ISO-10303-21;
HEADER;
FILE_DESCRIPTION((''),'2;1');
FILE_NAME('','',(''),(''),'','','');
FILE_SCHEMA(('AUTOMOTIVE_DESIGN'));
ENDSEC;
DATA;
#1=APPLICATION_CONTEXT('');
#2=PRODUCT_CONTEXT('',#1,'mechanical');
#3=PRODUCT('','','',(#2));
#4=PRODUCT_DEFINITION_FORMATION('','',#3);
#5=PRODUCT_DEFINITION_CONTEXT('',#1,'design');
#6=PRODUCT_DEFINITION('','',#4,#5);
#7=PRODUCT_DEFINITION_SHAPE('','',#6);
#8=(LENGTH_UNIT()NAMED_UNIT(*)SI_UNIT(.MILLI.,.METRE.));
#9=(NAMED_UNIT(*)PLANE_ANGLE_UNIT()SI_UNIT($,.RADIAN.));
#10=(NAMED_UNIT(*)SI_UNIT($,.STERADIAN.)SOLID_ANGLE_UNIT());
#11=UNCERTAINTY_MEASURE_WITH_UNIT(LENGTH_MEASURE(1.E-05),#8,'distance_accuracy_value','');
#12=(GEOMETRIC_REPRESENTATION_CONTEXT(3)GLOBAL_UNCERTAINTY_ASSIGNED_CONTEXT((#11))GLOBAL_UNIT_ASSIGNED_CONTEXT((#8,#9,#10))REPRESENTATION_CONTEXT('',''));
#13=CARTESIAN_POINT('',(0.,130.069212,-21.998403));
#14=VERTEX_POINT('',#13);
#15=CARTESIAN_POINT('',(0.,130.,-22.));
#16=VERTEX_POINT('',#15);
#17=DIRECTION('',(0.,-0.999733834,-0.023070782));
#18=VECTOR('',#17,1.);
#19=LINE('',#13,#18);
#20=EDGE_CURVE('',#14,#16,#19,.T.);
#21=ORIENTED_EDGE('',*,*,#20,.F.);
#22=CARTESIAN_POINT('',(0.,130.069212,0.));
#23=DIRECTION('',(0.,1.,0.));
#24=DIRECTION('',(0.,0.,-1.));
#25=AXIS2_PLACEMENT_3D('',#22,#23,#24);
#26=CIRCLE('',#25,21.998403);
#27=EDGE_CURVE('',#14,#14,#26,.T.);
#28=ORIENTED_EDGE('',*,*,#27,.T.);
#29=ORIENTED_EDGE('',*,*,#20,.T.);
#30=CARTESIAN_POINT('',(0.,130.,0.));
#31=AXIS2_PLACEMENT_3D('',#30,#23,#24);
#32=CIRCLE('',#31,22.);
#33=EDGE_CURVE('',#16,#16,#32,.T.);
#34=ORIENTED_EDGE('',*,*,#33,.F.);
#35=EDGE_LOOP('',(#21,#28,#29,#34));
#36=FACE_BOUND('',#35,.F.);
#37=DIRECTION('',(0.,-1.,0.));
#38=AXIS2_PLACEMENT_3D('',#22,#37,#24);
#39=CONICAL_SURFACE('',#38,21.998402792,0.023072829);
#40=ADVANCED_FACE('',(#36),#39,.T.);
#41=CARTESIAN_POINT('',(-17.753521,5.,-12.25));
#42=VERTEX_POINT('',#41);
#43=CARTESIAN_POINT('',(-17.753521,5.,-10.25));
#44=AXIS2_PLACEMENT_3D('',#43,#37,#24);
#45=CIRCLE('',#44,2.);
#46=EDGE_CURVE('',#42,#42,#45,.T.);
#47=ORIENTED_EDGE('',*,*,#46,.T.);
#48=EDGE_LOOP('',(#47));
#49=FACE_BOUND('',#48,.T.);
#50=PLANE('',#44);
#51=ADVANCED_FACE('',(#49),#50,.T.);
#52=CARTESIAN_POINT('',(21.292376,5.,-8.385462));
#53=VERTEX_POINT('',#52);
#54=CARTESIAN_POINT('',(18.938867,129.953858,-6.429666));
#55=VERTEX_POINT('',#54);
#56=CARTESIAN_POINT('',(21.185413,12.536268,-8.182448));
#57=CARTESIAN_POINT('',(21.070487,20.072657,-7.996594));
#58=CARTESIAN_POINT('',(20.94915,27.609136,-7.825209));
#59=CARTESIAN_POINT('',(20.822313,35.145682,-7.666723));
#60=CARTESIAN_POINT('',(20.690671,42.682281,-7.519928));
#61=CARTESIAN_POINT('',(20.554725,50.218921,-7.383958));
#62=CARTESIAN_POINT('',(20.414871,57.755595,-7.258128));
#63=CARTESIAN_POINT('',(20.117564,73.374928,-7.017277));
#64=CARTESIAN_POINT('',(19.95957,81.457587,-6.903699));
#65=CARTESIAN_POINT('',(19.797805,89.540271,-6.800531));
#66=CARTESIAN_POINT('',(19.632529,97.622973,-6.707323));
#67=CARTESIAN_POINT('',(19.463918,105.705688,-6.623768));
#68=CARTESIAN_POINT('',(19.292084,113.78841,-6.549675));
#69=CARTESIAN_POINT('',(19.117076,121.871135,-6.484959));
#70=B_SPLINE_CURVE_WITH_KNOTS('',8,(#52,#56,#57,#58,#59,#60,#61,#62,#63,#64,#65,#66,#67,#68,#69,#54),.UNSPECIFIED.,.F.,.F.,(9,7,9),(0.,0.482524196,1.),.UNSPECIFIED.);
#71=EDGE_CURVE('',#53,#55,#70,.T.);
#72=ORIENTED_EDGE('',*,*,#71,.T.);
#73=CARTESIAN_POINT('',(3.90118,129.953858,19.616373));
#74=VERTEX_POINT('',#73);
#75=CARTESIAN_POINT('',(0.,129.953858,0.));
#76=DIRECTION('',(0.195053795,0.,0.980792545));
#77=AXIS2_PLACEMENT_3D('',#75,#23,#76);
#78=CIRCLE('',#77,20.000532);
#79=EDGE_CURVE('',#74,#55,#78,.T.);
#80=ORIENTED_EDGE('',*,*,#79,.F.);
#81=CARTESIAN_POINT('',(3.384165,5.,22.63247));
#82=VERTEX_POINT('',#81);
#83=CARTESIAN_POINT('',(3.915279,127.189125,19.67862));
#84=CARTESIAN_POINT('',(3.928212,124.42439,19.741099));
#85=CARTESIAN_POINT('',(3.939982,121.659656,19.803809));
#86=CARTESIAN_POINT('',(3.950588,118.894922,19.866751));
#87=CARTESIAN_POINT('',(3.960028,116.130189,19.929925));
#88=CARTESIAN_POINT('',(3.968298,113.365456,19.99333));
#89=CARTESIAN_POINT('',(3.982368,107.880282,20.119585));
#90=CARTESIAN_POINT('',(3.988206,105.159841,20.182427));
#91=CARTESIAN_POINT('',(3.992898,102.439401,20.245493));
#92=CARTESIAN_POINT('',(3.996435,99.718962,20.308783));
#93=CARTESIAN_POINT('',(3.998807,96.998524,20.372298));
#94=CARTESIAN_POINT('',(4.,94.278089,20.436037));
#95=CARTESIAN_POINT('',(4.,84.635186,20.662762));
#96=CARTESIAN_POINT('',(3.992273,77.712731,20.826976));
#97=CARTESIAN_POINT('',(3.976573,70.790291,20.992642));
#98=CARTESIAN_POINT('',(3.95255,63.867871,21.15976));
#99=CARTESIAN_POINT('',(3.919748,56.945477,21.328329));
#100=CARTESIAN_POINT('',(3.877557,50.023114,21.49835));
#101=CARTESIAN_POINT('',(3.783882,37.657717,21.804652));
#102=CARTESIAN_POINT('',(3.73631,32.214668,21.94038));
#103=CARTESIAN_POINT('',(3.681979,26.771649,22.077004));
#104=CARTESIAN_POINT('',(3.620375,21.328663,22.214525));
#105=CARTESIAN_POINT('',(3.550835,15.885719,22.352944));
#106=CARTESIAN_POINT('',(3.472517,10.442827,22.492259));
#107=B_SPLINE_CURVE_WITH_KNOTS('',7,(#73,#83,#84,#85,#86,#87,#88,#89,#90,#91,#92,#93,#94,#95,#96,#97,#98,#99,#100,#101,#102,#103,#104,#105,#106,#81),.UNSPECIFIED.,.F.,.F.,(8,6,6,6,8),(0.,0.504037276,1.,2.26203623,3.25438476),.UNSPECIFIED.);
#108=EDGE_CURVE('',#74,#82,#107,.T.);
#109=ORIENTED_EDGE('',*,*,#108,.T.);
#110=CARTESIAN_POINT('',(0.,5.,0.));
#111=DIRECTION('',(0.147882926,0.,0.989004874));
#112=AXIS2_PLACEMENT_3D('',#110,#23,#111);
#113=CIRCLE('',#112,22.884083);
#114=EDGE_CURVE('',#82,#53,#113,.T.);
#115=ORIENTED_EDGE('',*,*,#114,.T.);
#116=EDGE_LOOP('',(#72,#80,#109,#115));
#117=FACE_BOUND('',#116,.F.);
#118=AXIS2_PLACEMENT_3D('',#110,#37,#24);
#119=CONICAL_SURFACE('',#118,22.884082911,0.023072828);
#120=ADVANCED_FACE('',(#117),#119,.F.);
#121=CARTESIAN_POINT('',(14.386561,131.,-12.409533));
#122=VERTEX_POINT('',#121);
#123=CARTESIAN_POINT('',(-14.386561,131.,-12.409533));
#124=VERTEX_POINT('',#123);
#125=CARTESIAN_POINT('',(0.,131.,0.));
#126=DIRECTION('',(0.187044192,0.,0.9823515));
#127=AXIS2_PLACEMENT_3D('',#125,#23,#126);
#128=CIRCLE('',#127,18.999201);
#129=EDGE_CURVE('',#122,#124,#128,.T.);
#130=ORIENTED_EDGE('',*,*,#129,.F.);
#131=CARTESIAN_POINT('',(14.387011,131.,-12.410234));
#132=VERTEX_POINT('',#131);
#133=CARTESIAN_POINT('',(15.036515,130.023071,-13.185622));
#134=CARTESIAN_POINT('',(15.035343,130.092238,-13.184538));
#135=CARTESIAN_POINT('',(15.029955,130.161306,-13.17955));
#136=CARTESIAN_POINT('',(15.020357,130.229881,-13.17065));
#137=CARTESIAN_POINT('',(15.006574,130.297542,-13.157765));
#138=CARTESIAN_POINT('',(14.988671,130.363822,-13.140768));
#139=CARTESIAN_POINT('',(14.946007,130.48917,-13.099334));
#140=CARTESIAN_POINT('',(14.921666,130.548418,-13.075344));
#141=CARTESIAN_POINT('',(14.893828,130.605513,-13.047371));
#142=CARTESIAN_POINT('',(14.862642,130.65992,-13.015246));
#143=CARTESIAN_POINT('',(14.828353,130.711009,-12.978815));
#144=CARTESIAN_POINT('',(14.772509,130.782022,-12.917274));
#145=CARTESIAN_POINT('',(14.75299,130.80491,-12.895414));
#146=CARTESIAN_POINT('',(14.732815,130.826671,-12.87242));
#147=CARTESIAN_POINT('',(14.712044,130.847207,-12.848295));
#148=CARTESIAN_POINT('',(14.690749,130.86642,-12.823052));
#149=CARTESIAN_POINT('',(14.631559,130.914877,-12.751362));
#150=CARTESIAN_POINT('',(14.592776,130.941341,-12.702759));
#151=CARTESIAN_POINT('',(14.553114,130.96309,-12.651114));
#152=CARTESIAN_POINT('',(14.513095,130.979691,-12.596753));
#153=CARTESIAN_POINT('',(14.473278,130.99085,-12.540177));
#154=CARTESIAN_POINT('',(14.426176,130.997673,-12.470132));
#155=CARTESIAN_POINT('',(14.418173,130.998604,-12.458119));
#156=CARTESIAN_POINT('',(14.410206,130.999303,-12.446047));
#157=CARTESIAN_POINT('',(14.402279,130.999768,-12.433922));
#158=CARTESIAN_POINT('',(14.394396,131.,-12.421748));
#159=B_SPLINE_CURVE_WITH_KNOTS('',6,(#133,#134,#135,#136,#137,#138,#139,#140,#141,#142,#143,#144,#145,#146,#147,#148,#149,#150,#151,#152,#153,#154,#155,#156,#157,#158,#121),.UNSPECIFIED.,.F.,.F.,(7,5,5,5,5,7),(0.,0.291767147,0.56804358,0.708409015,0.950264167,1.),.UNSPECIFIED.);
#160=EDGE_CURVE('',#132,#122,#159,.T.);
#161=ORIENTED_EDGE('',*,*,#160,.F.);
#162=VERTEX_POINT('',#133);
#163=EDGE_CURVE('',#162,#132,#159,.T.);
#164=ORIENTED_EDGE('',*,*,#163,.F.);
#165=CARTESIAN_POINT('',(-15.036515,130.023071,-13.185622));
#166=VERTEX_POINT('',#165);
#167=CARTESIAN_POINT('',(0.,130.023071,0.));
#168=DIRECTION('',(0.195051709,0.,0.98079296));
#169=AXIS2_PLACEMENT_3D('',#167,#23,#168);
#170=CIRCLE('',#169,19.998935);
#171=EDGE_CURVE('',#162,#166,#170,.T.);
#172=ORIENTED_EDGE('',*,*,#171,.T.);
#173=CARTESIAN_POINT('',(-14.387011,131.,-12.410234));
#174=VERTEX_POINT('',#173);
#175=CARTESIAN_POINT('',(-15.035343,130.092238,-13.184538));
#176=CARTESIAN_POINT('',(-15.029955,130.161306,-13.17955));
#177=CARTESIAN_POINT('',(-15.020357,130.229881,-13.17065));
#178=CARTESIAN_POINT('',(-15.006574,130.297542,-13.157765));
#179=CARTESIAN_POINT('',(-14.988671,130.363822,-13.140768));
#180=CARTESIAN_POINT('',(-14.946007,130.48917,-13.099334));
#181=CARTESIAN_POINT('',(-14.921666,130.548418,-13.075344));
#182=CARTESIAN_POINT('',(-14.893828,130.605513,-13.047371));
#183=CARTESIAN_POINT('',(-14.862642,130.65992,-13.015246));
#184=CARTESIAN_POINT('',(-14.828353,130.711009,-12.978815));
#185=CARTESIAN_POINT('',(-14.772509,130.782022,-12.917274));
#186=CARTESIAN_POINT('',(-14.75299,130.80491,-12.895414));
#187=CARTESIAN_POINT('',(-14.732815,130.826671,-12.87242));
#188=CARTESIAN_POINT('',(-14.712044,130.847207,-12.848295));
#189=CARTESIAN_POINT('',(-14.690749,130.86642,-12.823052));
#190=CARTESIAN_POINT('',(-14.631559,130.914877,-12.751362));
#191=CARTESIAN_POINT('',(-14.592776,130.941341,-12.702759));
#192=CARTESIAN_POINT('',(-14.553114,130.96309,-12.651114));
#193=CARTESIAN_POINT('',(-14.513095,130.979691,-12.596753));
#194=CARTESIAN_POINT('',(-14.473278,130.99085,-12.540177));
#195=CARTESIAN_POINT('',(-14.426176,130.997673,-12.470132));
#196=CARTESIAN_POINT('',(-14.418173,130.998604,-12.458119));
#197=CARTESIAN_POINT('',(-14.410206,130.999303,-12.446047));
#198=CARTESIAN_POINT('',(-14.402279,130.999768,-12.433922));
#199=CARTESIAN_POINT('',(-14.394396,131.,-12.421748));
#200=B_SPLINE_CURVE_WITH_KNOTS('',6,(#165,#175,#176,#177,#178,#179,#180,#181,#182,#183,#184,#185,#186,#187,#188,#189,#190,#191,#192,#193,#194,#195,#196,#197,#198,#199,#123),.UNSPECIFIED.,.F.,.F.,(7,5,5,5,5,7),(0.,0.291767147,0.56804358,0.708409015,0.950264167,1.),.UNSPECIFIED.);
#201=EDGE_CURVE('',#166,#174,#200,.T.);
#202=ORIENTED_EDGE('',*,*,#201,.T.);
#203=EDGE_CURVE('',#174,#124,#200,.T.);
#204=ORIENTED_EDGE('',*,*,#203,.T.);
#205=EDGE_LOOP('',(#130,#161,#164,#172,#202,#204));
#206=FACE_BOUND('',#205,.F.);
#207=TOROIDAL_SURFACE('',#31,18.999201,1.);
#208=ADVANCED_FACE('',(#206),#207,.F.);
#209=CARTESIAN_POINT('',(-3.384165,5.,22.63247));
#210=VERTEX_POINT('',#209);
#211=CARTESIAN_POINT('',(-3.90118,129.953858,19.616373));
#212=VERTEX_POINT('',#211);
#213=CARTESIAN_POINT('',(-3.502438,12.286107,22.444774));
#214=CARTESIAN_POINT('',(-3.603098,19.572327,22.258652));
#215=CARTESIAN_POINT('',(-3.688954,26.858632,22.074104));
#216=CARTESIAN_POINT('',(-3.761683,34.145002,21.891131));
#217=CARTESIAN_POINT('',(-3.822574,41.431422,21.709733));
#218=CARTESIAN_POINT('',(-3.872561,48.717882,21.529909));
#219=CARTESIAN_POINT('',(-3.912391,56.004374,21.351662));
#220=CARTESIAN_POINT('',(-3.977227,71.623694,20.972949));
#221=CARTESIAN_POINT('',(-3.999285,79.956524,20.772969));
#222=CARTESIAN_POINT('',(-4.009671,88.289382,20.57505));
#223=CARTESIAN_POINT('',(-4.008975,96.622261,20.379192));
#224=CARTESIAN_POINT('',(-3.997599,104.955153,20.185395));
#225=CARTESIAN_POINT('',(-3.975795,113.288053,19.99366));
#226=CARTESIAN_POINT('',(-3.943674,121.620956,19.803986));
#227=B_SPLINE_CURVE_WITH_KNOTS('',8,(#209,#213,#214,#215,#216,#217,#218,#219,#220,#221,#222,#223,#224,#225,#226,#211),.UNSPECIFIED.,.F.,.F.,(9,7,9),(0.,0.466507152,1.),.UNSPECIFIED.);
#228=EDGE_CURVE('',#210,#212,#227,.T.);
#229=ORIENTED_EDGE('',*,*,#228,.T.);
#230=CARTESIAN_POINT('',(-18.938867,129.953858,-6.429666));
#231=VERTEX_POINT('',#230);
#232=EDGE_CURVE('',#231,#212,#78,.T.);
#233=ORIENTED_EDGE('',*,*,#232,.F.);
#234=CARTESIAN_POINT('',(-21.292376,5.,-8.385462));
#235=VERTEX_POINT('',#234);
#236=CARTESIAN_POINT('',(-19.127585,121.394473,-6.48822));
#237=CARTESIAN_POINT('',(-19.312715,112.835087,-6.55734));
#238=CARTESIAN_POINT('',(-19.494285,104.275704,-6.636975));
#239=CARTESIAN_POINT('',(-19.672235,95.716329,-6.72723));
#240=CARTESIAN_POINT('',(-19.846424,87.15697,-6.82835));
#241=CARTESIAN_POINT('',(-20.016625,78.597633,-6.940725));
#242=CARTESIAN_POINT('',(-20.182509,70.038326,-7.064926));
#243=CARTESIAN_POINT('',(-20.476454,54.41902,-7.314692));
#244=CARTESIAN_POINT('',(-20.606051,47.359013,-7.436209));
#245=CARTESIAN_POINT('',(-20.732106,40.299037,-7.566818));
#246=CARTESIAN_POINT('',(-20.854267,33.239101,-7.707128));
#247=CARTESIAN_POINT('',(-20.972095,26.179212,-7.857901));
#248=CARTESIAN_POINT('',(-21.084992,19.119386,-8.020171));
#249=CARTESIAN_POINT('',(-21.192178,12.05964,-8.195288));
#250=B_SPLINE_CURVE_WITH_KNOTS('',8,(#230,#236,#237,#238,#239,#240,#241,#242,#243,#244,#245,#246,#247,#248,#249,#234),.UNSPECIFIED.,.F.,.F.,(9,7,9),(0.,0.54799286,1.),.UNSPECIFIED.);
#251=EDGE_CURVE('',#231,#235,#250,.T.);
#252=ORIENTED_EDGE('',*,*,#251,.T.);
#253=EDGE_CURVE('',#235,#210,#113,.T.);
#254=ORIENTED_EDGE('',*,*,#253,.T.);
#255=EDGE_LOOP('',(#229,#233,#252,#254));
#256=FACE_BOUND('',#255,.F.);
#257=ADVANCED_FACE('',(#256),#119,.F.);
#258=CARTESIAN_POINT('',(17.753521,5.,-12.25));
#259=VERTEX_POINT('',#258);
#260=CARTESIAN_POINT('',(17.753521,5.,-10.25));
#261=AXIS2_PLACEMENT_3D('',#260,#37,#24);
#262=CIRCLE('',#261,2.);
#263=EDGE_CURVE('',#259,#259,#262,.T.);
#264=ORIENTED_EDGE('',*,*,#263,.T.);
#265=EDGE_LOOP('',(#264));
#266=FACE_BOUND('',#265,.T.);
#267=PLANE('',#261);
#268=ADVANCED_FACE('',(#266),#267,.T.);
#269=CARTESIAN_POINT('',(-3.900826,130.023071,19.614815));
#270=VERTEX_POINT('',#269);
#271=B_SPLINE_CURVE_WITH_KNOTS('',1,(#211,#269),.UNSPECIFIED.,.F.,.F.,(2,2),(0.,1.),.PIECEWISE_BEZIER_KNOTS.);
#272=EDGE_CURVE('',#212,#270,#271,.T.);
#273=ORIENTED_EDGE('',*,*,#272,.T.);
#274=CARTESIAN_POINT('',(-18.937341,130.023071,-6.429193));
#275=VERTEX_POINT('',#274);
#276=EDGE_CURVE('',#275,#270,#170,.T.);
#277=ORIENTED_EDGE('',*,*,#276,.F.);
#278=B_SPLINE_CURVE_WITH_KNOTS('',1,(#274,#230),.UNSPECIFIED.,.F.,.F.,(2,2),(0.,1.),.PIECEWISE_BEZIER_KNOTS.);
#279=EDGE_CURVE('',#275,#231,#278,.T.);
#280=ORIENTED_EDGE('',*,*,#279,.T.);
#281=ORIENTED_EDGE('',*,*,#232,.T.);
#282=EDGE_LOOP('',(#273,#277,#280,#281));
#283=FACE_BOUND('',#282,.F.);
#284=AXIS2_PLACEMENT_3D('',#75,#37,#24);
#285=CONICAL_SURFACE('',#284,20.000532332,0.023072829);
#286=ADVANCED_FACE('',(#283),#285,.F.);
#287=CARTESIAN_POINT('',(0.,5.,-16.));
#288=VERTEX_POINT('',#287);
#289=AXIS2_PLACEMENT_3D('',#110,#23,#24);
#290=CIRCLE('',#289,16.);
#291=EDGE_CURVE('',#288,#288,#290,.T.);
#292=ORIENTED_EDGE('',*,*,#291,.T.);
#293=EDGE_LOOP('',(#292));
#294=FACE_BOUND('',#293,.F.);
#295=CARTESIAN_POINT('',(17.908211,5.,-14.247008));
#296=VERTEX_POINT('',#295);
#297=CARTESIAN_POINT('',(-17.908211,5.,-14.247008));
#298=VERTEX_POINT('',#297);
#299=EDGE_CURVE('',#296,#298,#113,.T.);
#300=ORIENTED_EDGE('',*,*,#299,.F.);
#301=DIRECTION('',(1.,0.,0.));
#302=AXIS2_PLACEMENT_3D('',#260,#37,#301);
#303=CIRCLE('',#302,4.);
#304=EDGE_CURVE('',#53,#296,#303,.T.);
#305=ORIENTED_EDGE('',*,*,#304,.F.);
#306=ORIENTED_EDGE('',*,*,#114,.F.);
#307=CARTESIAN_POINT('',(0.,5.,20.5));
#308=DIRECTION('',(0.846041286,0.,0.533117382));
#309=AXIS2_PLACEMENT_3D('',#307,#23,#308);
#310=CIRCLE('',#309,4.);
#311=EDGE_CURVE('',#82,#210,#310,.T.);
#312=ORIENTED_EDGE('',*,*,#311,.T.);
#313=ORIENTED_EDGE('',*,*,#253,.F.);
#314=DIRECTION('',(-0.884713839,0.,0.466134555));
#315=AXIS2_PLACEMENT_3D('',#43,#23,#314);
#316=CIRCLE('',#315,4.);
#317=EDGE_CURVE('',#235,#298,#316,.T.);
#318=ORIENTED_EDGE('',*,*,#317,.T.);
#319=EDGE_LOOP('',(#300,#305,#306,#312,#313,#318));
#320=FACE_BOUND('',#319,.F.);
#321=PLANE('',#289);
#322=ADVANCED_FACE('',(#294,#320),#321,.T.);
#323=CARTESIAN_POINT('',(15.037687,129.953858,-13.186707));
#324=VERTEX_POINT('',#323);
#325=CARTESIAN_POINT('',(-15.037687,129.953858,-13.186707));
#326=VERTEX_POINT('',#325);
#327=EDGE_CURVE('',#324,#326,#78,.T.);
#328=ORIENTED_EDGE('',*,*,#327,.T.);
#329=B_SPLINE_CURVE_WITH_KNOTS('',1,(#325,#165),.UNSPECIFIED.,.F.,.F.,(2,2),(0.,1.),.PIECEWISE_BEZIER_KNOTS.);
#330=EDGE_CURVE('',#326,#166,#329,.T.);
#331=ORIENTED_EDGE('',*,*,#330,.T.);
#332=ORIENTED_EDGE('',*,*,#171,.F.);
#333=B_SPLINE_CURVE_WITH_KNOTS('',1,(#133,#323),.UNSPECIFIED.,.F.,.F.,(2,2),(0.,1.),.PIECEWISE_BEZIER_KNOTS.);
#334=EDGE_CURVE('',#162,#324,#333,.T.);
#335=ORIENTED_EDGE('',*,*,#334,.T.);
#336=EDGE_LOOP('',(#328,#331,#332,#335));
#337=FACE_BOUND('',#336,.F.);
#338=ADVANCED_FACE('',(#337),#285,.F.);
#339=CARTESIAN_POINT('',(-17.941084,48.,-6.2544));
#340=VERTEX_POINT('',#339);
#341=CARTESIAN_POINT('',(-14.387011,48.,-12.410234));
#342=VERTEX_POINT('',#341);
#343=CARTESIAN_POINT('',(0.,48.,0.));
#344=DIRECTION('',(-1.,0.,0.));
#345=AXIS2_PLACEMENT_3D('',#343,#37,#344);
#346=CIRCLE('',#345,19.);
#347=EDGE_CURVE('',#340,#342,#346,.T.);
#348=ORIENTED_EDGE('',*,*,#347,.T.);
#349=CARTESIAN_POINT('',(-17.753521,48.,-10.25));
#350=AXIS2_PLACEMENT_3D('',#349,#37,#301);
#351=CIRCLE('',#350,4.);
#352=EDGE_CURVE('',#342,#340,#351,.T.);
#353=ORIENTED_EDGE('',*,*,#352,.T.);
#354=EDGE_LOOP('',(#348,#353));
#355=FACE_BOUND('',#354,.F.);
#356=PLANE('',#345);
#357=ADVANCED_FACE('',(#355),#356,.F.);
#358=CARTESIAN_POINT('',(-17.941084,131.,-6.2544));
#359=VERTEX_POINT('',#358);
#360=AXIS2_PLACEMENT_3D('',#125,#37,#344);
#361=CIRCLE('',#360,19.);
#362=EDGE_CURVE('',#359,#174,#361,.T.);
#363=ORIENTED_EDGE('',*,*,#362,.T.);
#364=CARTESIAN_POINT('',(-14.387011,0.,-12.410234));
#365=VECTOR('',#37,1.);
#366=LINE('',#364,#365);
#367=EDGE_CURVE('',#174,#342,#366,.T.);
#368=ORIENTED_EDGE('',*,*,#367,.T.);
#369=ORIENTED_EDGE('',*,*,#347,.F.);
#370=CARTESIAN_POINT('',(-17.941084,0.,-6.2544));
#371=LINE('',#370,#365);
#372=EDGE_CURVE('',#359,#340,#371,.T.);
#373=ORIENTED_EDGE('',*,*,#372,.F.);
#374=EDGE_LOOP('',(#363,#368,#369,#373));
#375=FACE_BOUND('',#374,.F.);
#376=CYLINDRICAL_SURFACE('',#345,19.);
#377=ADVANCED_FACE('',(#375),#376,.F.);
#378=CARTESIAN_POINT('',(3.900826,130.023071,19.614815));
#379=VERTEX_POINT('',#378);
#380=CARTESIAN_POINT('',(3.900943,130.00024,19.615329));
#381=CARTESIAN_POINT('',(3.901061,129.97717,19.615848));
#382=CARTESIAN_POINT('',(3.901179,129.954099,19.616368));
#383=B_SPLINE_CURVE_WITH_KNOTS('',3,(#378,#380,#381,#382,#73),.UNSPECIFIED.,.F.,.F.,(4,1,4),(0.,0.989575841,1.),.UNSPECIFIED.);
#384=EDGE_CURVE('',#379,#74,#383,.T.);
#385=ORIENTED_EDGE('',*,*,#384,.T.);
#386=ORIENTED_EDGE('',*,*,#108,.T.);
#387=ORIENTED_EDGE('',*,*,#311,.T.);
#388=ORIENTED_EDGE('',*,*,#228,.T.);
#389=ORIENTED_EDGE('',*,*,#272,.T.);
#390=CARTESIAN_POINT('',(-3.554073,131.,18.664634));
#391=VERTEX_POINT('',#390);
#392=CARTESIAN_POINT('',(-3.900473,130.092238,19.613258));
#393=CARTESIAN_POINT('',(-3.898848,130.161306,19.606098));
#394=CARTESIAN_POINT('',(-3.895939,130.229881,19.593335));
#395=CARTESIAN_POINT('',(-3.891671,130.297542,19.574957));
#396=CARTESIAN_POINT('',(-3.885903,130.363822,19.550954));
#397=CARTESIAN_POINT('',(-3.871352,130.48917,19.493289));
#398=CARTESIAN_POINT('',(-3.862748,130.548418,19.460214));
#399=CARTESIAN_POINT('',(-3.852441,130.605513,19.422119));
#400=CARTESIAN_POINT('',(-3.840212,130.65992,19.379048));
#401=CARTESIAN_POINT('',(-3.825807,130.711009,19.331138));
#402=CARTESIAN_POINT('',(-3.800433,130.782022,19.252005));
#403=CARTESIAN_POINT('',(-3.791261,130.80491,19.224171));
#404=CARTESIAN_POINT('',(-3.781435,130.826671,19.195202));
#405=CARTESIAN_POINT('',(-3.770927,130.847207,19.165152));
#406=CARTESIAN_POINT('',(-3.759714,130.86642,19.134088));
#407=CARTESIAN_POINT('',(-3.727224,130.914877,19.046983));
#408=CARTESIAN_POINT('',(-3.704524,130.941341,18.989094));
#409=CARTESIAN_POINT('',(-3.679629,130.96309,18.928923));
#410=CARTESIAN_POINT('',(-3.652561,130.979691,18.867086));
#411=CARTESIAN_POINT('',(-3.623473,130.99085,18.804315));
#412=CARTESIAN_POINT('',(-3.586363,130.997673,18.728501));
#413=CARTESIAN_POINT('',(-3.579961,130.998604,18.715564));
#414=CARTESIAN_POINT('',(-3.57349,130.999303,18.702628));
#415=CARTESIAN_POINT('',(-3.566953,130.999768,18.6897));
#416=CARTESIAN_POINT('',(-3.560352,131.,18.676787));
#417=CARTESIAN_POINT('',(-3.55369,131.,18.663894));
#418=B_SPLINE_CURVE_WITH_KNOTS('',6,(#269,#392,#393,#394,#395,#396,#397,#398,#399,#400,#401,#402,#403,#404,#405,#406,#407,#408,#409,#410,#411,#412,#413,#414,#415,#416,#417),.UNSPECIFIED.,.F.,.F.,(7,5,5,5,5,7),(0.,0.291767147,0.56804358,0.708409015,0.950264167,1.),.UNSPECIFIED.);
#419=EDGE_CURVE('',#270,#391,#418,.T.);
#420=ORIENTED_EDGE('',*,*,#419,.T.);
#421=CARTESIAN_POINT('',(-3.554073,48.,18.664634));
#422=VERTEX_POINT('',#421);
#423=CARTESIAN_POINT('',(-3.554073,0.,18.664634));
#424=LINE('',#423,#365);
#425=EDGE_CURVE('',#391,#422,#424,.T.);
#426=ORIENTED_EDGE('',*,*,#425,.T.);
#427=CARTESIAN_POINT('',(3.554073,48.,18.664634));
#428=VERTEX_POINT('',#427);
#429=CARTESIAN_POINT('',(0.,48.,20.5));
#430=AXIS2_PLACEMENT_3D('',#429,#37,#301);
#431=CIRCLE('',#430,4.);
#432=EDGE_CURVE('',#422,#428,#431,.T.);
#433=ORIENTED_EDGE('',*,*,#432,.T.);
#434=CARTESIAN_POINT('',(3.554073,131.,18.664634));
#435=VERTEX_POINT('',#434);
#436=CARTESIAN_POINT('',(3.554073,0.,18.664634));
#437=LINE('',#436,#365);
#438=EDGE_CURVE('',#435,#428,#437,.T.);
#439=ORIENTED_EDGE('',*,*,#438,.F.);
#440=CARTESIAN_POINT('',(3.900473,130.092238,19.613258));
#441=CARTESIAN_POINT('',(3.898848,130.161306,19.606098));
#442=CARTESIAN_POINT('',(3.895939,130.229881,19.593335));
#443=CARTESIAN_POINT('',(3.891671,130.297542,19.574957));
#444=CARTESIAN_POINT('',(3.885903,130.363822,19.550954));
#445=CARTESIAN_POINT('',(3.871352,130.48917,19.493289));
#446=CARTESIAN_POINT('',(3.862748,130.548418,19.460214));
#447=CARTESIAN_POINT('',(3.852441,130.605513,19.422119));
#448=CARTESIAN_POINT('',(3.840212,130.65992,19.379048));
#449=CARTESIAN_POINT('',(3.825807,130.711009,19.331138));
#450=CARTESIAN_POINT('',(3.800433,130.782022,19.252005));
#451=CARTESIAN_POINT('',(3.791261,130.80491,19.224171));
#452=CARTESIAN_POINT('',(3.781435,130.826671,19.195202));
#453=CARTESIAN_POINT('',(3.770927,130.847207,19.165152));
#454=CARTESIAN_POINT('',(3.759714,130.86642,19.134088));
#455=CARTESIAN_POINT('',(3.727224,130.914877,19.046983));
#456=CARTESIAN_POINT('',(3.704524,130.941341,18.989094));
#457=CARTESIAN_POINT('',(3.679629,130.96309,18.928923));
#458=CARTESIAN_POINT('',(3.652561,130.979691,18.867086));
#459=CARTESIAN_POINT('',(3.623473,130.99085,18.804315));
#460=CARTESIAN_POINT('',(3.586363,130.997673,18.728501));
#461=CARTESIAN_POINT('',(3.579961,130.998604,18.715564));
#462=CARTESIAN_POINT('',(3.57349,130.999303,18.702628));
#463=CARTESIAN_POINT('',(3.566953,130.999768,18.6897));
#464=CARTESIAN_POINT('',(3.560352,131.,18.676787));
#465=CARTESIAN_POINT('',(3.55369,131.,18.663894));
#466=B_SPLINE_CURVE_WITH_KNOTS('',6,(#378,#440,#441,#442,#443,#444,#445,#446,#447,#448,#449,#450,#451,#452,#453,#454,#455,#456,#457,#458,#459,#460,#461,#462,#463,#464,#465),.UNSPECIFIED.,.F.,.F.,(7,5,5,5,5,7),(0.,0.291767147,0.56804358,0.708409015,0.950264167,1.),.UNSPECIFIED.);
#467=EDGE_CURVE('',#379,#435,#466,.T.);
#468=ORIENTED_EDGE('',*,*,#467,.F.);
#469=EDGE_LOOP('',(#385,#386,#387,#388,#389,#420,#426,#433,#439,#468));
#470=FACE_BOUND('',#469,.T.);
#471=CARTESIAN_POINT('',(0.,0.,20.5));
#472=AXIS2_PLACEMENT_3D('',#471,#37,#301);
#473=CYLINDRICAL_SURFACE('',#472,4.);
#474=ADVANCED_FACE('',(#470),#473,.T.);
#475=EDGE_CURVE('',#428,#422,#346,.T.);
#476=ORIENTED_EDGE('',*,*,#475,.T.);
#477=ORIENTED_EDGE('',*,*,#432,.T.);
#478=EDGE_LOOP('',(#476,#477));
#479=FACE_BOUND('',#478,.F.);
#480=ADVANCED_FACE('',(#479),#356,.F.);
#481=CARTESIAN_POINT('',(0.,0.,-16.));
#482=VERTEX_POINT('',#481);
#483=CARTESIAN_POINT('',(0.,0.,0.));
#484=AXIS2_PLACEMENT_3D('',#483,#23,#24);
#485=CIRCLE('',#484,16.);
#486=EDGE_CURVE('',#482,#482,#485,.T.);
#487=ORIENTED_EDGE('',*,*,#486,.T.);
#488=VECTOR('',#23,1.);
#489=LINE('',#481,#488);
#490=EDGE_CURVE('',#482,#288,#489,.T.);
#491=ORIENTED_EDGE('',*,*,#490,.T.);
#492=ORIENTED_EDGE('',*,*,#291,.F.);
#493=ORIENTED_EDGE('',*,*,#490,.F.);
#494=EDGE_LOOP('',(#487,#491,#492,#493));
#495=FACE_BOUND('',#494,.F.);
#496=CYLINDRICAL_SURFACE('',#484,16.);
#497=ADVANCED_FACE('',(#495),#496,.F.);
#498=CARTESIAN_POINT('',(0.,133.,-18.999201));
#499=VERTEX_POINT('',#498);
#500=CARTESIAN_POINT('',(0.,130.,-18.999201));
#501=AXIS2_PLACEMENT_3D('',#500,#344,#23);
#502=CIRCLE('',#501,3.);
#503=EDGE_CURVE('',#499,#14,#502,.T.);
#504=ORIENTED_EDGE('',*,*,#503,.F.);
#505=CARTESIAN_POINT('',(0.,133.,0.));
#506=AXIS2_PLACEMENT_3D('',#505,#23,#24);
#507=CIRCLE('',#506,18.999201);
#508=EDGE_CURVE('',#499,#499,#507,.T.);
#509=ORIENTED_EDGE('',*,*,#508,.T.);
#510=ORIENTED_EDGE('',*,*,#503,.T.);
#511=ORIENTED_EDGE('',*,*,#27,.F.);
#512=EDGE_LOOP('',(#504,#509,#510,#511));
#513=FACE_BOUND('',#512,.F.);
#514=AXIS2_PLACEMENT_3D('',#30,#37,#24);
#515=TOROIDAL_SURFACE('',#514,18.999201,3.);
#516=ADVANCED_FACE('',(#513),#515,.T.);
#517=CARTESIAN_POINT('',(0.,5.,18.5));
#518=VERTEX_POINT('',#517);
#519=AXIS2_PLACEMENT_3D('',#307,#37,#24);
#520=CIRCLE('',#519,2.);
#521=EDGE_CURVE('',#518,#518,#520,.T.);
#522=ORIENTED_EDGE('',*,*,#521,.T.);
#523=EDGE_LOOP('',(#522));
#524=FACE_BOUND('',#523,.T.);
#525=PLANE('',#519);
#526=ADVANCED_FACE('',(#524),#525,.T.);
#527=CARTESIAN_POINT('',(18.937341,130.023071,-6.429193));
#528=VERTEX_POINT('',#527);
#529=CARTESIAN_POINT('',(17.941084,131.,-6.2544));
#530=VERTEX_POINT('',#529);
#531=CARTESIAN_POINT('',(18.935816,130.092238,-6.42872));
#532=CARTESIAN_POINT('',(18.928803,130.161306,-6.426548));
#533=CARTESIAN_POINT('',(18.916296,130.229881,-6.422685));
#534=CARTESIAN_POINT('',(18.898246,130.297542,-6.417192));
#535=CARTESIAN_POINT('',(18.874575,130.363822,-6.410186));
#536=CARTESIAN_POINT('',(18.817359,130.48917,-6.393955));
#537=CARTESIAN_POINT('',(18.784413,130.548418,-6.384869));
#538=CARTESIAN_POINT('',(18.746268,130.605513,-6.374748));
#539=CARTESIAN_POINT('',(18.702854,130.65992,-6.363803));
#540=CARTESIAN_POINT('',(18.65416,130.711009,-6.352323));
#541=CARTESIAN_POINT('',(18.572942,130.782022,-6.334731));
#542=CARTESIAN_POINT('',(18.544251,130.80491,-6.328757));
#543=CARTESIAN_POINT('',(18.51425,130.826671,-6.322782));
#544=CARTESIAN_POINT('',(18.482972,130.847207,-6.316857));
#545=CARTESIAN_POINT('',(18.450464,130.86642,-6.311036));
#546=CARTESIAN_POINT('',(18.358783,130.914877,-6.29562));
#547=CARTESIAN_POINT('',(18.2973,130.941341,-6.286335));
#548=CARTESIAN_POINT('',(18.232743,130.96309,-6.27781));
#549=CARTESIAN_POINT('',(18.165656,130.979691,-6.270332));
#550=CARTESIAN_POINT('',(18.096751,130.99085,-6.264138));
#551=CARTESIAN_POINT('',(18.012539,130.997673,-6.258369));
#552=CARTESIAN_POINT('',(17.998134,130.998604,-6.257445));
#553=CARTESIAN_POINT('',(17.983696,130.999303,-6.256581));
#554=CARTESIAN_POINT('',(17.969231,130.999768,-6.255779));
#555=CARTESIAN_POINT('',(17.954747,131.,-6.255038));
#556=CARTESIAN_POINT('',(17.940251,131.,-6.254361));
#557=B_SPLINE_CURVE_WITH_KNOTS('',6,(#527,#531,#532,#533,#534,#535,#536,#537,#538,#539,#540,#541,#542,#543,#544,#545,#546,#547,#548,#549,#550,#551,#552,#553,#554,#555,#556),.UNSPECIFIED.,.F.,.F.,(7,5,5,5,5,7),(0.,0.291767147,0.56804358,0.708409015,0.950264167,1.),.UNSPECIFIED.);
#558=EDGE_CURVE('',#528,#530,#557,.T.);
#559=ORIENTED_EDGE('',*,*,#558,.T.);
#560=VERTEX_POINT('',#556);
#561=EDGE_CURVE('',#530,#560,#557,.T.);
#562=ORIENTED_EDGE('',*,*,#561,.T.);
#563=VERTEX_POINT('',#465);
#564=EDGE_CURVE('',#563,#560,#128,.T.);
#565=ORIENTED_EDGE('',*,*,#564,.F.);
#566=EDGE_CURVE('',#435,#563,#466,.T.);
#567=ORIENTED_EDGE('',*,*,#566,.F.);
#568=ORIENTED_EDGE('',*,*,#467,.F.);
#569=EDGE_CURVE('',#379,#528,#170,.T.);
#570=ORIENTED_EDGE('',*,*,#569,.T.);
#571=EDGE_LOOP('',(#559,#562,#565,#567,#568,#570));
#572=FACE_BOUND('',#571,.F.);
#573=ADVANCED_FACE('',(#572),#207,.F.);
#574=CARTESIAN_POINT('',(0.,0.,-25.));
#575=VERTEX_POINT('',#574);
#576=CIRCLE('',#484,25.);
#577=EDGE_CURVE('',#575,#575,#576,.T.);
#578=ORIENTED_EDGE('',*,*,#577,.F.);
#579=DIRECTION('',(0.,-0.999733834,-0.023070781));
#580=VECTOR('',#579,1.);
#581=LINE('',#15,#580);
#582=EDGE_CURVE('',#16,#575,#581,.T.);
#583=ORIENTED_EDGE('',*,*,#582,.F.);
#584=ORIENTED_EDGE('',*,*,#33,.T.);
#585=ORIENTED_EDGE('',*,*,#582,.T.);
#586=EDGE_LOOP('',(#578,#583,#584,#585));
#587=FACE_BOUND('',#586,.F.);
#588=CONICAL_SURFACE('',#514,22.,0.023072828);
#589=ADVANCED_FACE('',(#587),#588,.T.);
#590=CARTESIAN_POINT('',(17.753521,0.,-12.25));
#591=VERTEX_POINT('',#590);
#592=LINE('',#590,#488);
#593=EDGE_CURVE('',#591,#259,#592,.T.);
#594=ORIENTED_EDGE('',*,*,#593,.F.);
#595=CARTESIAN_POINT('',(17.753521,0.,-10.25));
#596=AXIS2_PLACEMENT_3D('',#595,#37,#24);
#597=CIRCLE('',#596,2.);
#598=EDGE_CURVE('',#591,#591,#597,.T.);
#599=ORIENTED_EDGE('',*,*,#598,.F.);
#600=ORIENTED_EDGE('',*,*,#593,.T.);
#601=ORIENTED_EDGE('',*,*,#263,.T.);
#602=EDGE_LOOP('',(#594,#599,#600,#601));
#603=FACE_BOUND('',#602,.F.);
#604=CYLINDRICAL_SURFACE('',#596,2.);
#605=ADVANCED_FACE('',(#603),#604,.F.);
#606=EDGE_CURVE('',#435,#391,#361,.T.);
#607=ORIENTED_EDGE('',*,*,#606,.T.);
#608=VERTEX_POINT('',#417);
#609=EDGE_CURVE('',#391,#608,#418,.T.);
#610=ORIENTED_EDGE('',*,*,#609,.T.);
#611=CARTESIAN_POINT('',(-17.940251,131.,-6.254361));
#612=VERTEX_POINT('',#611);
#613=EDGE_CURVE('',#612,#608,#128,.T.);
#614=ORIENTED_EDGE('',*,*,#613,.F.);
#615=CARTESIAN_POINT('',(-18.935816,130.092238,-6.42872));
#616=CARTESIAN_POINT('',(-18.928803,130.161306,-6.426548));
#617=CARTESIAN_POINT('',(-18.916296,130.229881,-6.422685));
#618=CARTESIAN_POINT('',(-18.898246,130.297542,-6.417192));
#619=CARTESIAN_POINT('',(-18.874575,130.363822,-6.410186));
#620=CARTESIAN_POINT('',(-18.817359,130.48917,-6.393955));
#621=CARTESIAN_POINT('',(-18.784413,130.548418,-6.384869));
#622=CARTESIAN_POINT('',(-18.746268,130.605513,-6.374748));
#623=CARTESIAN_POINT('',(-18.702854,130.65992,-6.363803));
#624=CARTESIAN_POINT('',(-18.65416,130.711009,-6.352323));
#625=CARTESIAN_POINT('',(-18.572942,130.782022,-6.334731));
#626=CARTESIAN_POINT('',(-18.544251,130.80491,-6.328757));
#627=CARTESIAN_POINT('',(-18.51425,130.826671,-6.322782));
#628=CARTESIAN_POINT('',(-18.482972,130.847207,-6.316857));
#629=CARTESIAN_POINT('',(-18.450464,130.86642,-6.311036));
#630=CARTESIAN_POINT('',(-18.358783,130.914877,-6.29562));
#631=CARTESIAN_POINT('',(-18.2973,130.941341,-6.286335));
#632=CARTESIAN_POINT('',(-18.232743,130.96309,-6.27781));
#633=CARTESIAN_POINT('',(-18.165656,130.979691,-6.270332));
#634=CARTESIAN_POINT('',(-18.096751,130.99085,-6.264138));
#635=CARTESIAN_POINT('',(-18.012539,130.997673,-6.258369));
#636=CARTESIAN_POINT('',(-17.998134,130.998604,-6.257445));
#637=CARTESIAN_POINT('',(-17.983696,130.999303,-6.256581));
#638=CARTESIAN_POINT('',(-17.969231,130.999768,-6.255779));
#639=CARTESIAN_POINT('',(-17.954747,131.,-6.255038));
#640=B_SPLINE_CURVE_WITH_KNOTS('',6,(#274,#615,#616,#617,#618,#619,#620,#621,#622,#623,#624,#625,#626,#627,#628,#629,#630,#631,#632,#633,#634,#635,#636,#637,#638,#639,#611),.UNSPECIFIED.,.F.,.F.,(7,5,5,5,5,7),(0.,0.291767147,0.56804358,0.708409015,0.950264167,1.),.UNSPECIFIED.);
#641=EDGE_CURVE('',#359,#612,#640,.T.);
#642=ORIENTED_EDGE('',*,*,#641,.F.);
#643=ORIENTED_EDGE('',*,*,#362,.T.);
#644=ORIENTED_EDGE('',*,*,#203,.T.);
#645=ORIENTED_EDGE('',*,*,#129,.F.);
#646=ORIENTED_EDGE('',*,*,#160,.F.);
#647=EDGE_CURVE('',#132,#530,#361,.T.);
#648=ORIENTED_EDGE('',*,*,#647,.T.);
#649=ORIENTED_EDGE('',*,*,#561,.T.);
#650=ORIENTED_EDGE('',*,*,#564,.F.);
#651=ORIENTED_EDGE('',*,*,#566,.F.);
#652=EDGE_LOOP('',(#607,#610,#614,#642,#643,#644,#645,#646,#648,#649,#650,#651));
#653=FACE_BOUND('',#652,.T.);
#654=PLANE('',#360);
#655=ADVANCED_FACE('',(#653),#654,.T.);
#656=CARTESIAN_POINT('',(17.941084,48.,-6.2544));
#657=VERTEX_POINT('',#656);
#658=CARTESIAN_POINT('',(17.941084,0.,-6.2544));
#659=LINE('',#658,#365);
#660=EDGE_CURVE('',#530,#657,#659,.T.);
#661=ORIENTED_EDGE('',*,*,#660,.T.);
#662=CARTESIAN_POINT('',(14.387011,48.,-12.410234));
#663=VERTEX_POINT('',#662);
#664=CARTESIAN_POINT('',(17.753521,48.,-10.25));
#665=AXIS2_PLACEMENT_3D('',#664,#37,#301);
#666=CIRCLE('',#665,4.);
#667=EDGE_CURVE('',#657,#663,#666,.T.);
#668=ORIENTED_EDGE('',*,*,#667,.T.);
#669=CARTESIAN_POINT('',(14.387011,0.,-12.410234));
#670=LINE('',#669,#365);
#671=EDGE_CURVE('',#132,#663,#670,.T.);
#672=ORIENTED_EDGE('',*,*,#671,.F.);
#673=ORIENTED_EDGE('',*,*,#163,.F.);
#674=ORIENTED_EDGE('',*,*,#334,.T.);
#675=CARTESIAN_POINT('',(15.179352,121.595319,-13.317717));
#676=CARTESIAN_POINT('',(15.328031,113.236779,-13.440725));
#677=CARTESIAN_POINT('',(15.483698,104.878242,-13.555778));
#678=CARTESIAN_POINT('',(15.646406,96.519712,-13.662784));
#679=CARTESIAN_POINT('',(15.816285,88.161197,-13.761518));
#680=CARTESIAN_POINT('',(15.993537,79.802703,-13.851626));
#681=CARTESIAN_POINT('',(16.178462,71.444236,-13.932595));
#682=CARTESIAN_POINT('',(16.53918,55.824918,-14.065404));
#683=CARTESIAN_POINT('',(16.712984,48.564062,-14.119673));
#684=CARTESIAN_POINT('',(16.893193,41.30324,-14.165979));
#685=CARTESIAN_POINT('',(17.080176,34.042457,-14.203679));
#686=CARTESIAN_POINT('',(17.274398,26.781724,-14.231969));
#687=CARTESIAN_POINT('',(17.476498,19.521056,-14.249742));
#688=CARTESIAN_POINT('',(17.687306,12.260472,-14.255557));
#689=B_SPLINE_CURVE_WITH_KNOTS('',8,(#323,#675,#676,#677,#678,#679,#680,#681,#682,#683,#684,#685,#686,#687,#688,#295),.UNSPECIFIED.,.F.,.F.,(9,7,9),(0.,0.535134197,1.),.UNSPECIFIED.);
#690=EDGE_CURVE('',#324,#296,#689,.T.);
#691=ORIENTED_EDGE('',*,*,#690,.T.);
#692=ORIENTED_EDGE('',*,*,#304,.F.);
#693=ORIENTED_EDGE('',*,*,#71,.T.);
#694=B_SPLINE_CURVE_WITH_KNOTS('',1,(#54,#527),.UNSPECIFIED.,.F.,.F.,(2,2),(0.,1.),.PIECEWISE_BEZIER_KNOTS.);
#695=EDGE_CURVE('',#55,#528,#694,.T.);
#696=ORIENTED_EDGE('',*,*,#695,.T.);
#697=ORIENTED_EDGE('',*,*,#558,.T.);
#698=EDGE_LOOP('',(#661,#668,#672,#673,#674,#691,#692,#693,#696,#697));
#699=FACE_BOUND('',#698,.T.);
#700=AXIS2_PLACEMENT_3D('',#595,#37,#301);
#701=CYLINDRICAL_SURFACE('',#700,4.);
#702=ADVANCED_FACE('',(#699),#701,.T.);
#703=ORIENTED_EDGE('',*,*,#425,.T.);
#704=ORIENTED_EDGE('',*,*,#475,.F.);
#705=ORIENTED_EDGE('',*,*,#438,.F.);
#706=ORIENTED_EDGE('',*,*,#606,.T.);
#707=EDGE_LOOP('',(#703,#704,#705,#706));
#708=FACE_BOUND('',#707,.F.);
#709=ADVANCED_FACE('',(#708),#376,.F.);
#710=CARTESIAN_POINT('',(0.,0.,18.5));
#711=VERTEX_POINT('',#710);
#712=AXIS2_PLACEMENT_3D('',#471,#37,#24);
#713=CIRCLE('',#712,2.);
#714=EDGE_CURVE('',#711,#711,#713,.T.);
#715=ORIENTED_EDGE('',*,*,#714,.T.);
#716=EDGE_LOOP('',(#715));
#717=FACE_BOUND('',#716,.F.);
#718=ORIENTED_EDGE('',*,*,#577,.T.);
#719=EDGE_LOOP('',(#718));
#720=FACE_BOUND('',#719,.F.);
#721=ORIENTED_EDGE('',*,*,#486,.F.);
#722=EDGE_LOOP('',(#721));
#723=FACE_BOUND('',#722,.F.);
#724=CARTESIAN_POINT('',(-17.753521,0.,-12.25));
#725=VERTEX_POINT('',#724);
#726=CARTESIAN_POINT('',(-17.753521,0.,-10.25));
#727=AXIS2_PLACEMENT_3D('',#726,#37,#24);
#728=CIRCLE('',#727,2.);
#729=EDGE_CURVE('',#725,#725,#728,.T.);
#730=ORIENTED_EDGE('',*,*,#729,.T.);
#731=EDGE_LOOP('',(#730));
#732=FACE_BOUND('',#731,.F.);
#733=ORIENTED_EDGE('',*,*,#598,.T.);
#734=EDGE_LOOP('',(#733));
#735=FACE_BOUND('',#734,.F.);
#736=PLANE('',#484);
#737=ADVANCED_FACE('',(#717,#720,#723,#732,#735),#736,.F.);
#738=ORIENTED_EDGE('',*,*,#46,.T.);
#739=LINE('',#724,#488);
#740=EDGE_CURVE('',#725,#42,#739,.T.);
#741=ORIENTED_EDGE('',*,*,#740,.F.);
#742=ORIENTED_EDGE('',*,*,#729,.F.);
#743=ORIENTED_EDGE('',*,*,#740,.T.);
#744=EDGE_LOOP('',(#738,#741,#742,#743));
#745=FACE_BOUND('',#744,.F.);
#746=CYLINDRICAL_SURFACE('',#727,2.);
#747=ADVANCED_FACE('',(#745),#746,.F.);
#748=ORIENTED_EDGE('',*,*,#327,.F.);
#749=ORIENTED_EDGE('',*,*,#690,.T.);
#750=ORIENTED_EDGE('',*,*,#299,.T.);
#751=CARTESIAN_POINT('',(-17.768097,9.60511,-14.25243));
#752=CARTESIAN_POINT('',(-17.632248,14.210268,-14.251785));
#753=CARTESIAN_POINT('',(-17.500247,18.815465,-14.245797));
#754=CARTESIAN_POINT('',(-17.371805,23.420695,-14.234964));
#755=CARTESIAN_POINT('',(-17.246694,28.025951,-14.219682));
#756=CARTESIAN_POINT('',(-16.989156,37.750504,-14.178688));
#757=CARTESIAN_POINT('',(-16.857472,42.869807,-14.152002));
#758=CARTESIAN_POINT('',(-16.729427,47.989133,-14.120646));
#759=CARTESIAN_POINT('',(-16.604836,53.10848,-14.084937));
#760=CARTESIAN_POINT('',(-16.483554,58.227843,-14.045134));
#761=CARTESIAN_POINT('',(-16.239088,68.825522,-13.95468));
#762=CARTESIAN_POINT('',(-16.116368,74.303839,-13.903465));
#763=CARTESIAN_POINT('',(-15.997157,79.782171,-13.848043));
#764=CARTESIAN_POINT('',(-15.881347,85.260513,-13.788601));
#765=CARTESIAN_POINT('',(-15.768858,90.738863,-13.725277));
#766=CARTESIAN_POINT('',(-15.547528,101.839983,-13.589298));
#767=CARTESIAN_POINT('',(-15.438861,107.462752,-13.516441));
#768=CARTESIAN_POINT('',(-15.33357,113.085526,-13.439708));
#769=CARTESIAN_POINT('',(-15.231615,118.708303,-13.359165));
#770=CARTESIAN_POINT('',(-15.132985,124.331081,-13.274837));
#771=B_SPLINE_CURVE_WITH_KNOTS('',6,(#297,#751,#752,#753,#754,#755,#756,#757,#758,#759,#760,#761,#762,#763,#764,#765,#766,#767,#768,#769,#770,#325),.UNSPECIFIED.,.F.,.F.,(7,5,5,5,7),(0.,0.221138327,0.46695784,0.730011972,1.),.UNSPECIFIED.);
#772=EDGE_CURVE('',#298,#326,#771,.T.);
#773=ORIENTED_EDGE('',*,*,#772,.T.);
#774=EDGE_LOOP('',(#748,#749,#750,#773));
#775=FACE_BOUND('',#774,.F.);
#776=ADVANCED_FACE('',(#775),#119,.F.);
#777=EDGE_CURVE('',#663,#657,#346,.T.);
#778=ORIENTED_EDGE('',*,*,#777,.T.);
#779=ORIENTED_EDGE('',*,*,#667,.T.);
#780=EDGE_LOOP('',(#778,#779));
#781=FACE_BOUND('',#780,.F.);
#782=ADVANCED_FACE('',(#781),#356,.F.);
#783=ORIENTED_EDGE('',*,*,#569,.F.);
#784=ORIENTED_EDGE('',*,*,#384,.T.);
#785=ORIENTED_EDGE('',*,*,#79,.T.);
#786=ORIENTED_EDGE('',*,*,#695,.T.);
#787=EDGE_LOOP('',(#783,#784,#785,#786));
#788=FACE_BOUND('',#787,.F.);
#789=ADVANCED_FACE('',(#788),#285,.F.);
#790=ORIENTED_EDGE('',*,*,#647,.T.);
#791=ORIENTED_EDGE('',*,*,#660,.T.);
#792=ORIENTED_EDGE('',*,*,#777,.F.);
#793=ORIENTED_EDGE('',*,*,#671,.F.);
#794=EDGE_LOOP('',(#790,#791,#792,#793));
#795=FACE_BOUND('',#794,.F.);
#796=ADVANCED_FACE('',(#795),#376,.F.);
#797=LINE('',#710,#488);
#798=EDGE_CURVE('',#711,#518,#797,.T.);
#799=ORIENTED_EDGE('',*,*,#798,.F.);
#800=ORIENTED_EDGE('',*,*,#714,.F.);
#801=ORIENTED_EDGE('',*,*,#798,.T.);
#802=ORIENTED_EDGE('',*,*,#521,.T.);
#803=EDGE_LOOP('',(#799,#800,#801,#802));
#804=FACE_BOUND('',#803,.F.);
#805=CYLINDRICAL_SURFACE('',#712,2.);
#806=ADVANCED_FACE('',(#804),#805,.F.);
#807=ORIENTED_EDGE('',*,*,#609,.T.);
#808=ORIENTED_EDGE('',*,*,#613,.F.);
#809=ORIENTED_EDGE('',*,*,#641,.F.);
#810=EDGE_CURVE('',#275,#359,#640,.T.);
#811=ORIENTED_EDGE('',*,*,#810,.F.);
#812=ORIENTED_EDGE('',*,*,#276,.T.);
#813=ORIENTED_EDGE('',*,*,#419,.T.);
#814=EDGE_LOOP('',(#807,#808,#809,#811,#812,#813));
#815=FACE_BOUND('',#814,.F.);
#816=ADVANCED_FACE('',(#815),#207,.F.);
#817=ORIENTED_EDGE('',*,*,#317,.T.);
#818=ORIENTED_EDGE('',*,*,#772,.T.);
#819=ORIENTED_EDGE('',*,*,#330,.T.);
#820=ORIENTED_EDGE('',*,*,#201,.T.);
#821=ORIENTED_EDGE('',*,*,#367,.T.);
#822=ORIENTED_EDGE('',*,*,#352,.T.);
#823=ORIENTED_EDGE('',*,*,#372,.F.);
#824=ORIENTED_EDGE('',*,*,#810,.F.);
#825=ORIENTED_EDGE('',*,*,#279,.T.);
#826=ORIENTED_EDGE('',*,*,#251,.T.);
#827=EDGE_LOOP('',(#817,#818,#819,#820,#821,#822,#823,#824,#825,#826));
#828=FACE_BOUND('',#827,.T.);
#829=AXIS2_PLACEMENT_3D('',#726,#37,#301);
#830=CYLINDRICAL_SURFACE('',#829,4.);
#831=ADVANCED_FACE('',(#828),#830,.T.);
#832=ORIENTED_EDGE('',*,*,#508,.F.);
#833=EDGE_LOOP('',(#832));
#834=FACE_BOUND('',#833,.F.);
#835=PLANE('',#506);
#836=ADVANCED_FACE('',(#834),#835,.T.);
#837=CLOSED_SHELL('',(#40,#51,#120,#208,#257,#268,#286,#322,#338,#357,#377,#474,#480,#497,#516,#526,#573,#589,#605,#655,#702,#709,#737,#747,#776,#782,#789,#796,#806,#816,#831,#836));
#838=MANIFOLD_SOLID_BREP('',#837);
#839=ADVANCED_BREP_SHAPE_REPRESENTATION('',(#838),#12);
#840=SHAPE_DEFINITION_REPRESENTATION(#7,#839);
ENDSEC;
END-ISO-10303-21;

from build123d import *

# Parameters (mm, degrees)
BOSS_EXTRUDE2_REACH = 139.619
SKETCH6_R           = 4
SKETCH7_R           = 2
CUT_EXTRUDE2_DEPTH  = 5
SKETCH8_R           = 19
CUT_EXTRUDE4_DEPTH  = 83


with BuildPart() as part:
    # Sketch1 → Revolve1 (revolve)
    with BuildSketch(Plane(origin=(0, 0, 0), x_dir=(0, 0, -1), z_dir=(1, 0, 0)), mode=Mode.PRIVATE) as revolve1_sk:
        with BuildLine():
            Line((-22, 130), (-25, 0))
            Line((-25, 0), (-16, 0))
            Line((-16, 0), (-16, 5))
            Line((-16, 5), (-22.884082911, 5))
            Line((-22.884082911, 5), (-20.000532332, 129.953858438))
            Line((-20.000532332, 129.953858438), (-19.998935124, 130.023070781))
            ThreePointArc((-19.998935124, 130.023070781), (-19.698103722, 130.715217023), (-18.99920129, 131))
            Line((-18.99920129, 131), (-16.1975525, 131))
            Line((-16.1975525, 131), (0, 131))
            Line((0, 131), (0, 133))
            Line((0, 133), (-16.1975525, 133))
            Line((-16.1975525, 133), (-18.99920129, 133))
            ThreePointArc((-18.99920129, 133), (-21.095908586, 132.14565107), (-21.998402792, 130.069212342))
            Line((-21.998402792, 130.069212342), (-22, 130))
        make_face()
    revolve(revolve1_sk.sketch.rotate(Axis((0, 0, 0), (0, 1, 0)), 180), axis=Axis((0, 0, 0), (0, 1, 0)))

    # Sketch6 → Boss-Extrude2 (add, up to next)
    with BuildSketch(Plane.XZ, mode=Mode.PRIVATE) as boss_extrude2_sk1:
        with Locations((0, 20.5)):
            Circle(SKETCH6_R)
    boss_extrude2_tool1 = extrude(boss_extrude2_sk1.sketch, amount=-BOSS_EXTRUDE2_REACH, mode=Mode.PRIVATE) - part.part
    # Sketch6 → Boss-Extrude2 (add, up to next)
    with BuildSketch(Plane.XZ, mode=Mode.PRIVATE) as boss_extrude2_sk2:
        with Locations((17.753520778, -10.25)):
            Circle(SKETCH6_R)
    boss_extrude2_tool2 = extrude(boss_extrude2_sk2.sketch, amount=-BOSS_EXTRUDE2_REACH, mode=Mode.PRIVATE) - part.part
    # Sketch6 → Boss-Extrude2 (add, up to next)
    with BuildSketch(Plane.XZ, mode=Mode.PRIVATE) as boss_extrude2_sk3:
        with Locations((-17.753520778, -10.25)):
            Circle(SKETCH6_R)
    boss_extrude2_tool3 = extrude(boss_extrude2_sk3.sketch, amount=-BOSS_EXTRUDE2_REACH, mode=Mode.PRIVATE) - part.part
    add(boss_extrude2_tool1.solids().sort_by_distance((0, 0, 20.5))[0])
    add(boss_extrude2_tool2.solids().sort_by_distance((17.753521, 0, -10.25))[0])
    add(boss_extrude2_tool3.solids().sort_by_distance((-17.753521, 0, -10.25))[0])

    # Sketch7 → Cut-Extrude2 (cut)
    with BuildSketch(Plane.XZ):
        with Locations(Location((0, 20.5, 0), (0, 0, 270))):
            Circle(SKETCH7_R)
        with Locations(Location((17.753520778, -10.25, 0), (0, 0, 270))):
            Circle(SKETCH7_R)
        with Locations(Location((-17.753520778, -10.25, 0), (0, 0, 270))):
            Circle(SKETCH7_R)
    extrude(amount=-CUT_EXTRUDE2_DEPTH, mode=Mode.SUBTRACT)

    # Sketch8 → Cut-Extrude4 (cut)
    with BuildSketch(Plane(origin=(0, 48, 0), x_dir=(-1, 0, 0), z_dir=(0, -1, 0))):
        Circle(SKETCH8_R)
    extrude(amount=-CUT_EXTRUDE4_DEPTH, mode=Mode.SUBTRACT)


solid = part.part
